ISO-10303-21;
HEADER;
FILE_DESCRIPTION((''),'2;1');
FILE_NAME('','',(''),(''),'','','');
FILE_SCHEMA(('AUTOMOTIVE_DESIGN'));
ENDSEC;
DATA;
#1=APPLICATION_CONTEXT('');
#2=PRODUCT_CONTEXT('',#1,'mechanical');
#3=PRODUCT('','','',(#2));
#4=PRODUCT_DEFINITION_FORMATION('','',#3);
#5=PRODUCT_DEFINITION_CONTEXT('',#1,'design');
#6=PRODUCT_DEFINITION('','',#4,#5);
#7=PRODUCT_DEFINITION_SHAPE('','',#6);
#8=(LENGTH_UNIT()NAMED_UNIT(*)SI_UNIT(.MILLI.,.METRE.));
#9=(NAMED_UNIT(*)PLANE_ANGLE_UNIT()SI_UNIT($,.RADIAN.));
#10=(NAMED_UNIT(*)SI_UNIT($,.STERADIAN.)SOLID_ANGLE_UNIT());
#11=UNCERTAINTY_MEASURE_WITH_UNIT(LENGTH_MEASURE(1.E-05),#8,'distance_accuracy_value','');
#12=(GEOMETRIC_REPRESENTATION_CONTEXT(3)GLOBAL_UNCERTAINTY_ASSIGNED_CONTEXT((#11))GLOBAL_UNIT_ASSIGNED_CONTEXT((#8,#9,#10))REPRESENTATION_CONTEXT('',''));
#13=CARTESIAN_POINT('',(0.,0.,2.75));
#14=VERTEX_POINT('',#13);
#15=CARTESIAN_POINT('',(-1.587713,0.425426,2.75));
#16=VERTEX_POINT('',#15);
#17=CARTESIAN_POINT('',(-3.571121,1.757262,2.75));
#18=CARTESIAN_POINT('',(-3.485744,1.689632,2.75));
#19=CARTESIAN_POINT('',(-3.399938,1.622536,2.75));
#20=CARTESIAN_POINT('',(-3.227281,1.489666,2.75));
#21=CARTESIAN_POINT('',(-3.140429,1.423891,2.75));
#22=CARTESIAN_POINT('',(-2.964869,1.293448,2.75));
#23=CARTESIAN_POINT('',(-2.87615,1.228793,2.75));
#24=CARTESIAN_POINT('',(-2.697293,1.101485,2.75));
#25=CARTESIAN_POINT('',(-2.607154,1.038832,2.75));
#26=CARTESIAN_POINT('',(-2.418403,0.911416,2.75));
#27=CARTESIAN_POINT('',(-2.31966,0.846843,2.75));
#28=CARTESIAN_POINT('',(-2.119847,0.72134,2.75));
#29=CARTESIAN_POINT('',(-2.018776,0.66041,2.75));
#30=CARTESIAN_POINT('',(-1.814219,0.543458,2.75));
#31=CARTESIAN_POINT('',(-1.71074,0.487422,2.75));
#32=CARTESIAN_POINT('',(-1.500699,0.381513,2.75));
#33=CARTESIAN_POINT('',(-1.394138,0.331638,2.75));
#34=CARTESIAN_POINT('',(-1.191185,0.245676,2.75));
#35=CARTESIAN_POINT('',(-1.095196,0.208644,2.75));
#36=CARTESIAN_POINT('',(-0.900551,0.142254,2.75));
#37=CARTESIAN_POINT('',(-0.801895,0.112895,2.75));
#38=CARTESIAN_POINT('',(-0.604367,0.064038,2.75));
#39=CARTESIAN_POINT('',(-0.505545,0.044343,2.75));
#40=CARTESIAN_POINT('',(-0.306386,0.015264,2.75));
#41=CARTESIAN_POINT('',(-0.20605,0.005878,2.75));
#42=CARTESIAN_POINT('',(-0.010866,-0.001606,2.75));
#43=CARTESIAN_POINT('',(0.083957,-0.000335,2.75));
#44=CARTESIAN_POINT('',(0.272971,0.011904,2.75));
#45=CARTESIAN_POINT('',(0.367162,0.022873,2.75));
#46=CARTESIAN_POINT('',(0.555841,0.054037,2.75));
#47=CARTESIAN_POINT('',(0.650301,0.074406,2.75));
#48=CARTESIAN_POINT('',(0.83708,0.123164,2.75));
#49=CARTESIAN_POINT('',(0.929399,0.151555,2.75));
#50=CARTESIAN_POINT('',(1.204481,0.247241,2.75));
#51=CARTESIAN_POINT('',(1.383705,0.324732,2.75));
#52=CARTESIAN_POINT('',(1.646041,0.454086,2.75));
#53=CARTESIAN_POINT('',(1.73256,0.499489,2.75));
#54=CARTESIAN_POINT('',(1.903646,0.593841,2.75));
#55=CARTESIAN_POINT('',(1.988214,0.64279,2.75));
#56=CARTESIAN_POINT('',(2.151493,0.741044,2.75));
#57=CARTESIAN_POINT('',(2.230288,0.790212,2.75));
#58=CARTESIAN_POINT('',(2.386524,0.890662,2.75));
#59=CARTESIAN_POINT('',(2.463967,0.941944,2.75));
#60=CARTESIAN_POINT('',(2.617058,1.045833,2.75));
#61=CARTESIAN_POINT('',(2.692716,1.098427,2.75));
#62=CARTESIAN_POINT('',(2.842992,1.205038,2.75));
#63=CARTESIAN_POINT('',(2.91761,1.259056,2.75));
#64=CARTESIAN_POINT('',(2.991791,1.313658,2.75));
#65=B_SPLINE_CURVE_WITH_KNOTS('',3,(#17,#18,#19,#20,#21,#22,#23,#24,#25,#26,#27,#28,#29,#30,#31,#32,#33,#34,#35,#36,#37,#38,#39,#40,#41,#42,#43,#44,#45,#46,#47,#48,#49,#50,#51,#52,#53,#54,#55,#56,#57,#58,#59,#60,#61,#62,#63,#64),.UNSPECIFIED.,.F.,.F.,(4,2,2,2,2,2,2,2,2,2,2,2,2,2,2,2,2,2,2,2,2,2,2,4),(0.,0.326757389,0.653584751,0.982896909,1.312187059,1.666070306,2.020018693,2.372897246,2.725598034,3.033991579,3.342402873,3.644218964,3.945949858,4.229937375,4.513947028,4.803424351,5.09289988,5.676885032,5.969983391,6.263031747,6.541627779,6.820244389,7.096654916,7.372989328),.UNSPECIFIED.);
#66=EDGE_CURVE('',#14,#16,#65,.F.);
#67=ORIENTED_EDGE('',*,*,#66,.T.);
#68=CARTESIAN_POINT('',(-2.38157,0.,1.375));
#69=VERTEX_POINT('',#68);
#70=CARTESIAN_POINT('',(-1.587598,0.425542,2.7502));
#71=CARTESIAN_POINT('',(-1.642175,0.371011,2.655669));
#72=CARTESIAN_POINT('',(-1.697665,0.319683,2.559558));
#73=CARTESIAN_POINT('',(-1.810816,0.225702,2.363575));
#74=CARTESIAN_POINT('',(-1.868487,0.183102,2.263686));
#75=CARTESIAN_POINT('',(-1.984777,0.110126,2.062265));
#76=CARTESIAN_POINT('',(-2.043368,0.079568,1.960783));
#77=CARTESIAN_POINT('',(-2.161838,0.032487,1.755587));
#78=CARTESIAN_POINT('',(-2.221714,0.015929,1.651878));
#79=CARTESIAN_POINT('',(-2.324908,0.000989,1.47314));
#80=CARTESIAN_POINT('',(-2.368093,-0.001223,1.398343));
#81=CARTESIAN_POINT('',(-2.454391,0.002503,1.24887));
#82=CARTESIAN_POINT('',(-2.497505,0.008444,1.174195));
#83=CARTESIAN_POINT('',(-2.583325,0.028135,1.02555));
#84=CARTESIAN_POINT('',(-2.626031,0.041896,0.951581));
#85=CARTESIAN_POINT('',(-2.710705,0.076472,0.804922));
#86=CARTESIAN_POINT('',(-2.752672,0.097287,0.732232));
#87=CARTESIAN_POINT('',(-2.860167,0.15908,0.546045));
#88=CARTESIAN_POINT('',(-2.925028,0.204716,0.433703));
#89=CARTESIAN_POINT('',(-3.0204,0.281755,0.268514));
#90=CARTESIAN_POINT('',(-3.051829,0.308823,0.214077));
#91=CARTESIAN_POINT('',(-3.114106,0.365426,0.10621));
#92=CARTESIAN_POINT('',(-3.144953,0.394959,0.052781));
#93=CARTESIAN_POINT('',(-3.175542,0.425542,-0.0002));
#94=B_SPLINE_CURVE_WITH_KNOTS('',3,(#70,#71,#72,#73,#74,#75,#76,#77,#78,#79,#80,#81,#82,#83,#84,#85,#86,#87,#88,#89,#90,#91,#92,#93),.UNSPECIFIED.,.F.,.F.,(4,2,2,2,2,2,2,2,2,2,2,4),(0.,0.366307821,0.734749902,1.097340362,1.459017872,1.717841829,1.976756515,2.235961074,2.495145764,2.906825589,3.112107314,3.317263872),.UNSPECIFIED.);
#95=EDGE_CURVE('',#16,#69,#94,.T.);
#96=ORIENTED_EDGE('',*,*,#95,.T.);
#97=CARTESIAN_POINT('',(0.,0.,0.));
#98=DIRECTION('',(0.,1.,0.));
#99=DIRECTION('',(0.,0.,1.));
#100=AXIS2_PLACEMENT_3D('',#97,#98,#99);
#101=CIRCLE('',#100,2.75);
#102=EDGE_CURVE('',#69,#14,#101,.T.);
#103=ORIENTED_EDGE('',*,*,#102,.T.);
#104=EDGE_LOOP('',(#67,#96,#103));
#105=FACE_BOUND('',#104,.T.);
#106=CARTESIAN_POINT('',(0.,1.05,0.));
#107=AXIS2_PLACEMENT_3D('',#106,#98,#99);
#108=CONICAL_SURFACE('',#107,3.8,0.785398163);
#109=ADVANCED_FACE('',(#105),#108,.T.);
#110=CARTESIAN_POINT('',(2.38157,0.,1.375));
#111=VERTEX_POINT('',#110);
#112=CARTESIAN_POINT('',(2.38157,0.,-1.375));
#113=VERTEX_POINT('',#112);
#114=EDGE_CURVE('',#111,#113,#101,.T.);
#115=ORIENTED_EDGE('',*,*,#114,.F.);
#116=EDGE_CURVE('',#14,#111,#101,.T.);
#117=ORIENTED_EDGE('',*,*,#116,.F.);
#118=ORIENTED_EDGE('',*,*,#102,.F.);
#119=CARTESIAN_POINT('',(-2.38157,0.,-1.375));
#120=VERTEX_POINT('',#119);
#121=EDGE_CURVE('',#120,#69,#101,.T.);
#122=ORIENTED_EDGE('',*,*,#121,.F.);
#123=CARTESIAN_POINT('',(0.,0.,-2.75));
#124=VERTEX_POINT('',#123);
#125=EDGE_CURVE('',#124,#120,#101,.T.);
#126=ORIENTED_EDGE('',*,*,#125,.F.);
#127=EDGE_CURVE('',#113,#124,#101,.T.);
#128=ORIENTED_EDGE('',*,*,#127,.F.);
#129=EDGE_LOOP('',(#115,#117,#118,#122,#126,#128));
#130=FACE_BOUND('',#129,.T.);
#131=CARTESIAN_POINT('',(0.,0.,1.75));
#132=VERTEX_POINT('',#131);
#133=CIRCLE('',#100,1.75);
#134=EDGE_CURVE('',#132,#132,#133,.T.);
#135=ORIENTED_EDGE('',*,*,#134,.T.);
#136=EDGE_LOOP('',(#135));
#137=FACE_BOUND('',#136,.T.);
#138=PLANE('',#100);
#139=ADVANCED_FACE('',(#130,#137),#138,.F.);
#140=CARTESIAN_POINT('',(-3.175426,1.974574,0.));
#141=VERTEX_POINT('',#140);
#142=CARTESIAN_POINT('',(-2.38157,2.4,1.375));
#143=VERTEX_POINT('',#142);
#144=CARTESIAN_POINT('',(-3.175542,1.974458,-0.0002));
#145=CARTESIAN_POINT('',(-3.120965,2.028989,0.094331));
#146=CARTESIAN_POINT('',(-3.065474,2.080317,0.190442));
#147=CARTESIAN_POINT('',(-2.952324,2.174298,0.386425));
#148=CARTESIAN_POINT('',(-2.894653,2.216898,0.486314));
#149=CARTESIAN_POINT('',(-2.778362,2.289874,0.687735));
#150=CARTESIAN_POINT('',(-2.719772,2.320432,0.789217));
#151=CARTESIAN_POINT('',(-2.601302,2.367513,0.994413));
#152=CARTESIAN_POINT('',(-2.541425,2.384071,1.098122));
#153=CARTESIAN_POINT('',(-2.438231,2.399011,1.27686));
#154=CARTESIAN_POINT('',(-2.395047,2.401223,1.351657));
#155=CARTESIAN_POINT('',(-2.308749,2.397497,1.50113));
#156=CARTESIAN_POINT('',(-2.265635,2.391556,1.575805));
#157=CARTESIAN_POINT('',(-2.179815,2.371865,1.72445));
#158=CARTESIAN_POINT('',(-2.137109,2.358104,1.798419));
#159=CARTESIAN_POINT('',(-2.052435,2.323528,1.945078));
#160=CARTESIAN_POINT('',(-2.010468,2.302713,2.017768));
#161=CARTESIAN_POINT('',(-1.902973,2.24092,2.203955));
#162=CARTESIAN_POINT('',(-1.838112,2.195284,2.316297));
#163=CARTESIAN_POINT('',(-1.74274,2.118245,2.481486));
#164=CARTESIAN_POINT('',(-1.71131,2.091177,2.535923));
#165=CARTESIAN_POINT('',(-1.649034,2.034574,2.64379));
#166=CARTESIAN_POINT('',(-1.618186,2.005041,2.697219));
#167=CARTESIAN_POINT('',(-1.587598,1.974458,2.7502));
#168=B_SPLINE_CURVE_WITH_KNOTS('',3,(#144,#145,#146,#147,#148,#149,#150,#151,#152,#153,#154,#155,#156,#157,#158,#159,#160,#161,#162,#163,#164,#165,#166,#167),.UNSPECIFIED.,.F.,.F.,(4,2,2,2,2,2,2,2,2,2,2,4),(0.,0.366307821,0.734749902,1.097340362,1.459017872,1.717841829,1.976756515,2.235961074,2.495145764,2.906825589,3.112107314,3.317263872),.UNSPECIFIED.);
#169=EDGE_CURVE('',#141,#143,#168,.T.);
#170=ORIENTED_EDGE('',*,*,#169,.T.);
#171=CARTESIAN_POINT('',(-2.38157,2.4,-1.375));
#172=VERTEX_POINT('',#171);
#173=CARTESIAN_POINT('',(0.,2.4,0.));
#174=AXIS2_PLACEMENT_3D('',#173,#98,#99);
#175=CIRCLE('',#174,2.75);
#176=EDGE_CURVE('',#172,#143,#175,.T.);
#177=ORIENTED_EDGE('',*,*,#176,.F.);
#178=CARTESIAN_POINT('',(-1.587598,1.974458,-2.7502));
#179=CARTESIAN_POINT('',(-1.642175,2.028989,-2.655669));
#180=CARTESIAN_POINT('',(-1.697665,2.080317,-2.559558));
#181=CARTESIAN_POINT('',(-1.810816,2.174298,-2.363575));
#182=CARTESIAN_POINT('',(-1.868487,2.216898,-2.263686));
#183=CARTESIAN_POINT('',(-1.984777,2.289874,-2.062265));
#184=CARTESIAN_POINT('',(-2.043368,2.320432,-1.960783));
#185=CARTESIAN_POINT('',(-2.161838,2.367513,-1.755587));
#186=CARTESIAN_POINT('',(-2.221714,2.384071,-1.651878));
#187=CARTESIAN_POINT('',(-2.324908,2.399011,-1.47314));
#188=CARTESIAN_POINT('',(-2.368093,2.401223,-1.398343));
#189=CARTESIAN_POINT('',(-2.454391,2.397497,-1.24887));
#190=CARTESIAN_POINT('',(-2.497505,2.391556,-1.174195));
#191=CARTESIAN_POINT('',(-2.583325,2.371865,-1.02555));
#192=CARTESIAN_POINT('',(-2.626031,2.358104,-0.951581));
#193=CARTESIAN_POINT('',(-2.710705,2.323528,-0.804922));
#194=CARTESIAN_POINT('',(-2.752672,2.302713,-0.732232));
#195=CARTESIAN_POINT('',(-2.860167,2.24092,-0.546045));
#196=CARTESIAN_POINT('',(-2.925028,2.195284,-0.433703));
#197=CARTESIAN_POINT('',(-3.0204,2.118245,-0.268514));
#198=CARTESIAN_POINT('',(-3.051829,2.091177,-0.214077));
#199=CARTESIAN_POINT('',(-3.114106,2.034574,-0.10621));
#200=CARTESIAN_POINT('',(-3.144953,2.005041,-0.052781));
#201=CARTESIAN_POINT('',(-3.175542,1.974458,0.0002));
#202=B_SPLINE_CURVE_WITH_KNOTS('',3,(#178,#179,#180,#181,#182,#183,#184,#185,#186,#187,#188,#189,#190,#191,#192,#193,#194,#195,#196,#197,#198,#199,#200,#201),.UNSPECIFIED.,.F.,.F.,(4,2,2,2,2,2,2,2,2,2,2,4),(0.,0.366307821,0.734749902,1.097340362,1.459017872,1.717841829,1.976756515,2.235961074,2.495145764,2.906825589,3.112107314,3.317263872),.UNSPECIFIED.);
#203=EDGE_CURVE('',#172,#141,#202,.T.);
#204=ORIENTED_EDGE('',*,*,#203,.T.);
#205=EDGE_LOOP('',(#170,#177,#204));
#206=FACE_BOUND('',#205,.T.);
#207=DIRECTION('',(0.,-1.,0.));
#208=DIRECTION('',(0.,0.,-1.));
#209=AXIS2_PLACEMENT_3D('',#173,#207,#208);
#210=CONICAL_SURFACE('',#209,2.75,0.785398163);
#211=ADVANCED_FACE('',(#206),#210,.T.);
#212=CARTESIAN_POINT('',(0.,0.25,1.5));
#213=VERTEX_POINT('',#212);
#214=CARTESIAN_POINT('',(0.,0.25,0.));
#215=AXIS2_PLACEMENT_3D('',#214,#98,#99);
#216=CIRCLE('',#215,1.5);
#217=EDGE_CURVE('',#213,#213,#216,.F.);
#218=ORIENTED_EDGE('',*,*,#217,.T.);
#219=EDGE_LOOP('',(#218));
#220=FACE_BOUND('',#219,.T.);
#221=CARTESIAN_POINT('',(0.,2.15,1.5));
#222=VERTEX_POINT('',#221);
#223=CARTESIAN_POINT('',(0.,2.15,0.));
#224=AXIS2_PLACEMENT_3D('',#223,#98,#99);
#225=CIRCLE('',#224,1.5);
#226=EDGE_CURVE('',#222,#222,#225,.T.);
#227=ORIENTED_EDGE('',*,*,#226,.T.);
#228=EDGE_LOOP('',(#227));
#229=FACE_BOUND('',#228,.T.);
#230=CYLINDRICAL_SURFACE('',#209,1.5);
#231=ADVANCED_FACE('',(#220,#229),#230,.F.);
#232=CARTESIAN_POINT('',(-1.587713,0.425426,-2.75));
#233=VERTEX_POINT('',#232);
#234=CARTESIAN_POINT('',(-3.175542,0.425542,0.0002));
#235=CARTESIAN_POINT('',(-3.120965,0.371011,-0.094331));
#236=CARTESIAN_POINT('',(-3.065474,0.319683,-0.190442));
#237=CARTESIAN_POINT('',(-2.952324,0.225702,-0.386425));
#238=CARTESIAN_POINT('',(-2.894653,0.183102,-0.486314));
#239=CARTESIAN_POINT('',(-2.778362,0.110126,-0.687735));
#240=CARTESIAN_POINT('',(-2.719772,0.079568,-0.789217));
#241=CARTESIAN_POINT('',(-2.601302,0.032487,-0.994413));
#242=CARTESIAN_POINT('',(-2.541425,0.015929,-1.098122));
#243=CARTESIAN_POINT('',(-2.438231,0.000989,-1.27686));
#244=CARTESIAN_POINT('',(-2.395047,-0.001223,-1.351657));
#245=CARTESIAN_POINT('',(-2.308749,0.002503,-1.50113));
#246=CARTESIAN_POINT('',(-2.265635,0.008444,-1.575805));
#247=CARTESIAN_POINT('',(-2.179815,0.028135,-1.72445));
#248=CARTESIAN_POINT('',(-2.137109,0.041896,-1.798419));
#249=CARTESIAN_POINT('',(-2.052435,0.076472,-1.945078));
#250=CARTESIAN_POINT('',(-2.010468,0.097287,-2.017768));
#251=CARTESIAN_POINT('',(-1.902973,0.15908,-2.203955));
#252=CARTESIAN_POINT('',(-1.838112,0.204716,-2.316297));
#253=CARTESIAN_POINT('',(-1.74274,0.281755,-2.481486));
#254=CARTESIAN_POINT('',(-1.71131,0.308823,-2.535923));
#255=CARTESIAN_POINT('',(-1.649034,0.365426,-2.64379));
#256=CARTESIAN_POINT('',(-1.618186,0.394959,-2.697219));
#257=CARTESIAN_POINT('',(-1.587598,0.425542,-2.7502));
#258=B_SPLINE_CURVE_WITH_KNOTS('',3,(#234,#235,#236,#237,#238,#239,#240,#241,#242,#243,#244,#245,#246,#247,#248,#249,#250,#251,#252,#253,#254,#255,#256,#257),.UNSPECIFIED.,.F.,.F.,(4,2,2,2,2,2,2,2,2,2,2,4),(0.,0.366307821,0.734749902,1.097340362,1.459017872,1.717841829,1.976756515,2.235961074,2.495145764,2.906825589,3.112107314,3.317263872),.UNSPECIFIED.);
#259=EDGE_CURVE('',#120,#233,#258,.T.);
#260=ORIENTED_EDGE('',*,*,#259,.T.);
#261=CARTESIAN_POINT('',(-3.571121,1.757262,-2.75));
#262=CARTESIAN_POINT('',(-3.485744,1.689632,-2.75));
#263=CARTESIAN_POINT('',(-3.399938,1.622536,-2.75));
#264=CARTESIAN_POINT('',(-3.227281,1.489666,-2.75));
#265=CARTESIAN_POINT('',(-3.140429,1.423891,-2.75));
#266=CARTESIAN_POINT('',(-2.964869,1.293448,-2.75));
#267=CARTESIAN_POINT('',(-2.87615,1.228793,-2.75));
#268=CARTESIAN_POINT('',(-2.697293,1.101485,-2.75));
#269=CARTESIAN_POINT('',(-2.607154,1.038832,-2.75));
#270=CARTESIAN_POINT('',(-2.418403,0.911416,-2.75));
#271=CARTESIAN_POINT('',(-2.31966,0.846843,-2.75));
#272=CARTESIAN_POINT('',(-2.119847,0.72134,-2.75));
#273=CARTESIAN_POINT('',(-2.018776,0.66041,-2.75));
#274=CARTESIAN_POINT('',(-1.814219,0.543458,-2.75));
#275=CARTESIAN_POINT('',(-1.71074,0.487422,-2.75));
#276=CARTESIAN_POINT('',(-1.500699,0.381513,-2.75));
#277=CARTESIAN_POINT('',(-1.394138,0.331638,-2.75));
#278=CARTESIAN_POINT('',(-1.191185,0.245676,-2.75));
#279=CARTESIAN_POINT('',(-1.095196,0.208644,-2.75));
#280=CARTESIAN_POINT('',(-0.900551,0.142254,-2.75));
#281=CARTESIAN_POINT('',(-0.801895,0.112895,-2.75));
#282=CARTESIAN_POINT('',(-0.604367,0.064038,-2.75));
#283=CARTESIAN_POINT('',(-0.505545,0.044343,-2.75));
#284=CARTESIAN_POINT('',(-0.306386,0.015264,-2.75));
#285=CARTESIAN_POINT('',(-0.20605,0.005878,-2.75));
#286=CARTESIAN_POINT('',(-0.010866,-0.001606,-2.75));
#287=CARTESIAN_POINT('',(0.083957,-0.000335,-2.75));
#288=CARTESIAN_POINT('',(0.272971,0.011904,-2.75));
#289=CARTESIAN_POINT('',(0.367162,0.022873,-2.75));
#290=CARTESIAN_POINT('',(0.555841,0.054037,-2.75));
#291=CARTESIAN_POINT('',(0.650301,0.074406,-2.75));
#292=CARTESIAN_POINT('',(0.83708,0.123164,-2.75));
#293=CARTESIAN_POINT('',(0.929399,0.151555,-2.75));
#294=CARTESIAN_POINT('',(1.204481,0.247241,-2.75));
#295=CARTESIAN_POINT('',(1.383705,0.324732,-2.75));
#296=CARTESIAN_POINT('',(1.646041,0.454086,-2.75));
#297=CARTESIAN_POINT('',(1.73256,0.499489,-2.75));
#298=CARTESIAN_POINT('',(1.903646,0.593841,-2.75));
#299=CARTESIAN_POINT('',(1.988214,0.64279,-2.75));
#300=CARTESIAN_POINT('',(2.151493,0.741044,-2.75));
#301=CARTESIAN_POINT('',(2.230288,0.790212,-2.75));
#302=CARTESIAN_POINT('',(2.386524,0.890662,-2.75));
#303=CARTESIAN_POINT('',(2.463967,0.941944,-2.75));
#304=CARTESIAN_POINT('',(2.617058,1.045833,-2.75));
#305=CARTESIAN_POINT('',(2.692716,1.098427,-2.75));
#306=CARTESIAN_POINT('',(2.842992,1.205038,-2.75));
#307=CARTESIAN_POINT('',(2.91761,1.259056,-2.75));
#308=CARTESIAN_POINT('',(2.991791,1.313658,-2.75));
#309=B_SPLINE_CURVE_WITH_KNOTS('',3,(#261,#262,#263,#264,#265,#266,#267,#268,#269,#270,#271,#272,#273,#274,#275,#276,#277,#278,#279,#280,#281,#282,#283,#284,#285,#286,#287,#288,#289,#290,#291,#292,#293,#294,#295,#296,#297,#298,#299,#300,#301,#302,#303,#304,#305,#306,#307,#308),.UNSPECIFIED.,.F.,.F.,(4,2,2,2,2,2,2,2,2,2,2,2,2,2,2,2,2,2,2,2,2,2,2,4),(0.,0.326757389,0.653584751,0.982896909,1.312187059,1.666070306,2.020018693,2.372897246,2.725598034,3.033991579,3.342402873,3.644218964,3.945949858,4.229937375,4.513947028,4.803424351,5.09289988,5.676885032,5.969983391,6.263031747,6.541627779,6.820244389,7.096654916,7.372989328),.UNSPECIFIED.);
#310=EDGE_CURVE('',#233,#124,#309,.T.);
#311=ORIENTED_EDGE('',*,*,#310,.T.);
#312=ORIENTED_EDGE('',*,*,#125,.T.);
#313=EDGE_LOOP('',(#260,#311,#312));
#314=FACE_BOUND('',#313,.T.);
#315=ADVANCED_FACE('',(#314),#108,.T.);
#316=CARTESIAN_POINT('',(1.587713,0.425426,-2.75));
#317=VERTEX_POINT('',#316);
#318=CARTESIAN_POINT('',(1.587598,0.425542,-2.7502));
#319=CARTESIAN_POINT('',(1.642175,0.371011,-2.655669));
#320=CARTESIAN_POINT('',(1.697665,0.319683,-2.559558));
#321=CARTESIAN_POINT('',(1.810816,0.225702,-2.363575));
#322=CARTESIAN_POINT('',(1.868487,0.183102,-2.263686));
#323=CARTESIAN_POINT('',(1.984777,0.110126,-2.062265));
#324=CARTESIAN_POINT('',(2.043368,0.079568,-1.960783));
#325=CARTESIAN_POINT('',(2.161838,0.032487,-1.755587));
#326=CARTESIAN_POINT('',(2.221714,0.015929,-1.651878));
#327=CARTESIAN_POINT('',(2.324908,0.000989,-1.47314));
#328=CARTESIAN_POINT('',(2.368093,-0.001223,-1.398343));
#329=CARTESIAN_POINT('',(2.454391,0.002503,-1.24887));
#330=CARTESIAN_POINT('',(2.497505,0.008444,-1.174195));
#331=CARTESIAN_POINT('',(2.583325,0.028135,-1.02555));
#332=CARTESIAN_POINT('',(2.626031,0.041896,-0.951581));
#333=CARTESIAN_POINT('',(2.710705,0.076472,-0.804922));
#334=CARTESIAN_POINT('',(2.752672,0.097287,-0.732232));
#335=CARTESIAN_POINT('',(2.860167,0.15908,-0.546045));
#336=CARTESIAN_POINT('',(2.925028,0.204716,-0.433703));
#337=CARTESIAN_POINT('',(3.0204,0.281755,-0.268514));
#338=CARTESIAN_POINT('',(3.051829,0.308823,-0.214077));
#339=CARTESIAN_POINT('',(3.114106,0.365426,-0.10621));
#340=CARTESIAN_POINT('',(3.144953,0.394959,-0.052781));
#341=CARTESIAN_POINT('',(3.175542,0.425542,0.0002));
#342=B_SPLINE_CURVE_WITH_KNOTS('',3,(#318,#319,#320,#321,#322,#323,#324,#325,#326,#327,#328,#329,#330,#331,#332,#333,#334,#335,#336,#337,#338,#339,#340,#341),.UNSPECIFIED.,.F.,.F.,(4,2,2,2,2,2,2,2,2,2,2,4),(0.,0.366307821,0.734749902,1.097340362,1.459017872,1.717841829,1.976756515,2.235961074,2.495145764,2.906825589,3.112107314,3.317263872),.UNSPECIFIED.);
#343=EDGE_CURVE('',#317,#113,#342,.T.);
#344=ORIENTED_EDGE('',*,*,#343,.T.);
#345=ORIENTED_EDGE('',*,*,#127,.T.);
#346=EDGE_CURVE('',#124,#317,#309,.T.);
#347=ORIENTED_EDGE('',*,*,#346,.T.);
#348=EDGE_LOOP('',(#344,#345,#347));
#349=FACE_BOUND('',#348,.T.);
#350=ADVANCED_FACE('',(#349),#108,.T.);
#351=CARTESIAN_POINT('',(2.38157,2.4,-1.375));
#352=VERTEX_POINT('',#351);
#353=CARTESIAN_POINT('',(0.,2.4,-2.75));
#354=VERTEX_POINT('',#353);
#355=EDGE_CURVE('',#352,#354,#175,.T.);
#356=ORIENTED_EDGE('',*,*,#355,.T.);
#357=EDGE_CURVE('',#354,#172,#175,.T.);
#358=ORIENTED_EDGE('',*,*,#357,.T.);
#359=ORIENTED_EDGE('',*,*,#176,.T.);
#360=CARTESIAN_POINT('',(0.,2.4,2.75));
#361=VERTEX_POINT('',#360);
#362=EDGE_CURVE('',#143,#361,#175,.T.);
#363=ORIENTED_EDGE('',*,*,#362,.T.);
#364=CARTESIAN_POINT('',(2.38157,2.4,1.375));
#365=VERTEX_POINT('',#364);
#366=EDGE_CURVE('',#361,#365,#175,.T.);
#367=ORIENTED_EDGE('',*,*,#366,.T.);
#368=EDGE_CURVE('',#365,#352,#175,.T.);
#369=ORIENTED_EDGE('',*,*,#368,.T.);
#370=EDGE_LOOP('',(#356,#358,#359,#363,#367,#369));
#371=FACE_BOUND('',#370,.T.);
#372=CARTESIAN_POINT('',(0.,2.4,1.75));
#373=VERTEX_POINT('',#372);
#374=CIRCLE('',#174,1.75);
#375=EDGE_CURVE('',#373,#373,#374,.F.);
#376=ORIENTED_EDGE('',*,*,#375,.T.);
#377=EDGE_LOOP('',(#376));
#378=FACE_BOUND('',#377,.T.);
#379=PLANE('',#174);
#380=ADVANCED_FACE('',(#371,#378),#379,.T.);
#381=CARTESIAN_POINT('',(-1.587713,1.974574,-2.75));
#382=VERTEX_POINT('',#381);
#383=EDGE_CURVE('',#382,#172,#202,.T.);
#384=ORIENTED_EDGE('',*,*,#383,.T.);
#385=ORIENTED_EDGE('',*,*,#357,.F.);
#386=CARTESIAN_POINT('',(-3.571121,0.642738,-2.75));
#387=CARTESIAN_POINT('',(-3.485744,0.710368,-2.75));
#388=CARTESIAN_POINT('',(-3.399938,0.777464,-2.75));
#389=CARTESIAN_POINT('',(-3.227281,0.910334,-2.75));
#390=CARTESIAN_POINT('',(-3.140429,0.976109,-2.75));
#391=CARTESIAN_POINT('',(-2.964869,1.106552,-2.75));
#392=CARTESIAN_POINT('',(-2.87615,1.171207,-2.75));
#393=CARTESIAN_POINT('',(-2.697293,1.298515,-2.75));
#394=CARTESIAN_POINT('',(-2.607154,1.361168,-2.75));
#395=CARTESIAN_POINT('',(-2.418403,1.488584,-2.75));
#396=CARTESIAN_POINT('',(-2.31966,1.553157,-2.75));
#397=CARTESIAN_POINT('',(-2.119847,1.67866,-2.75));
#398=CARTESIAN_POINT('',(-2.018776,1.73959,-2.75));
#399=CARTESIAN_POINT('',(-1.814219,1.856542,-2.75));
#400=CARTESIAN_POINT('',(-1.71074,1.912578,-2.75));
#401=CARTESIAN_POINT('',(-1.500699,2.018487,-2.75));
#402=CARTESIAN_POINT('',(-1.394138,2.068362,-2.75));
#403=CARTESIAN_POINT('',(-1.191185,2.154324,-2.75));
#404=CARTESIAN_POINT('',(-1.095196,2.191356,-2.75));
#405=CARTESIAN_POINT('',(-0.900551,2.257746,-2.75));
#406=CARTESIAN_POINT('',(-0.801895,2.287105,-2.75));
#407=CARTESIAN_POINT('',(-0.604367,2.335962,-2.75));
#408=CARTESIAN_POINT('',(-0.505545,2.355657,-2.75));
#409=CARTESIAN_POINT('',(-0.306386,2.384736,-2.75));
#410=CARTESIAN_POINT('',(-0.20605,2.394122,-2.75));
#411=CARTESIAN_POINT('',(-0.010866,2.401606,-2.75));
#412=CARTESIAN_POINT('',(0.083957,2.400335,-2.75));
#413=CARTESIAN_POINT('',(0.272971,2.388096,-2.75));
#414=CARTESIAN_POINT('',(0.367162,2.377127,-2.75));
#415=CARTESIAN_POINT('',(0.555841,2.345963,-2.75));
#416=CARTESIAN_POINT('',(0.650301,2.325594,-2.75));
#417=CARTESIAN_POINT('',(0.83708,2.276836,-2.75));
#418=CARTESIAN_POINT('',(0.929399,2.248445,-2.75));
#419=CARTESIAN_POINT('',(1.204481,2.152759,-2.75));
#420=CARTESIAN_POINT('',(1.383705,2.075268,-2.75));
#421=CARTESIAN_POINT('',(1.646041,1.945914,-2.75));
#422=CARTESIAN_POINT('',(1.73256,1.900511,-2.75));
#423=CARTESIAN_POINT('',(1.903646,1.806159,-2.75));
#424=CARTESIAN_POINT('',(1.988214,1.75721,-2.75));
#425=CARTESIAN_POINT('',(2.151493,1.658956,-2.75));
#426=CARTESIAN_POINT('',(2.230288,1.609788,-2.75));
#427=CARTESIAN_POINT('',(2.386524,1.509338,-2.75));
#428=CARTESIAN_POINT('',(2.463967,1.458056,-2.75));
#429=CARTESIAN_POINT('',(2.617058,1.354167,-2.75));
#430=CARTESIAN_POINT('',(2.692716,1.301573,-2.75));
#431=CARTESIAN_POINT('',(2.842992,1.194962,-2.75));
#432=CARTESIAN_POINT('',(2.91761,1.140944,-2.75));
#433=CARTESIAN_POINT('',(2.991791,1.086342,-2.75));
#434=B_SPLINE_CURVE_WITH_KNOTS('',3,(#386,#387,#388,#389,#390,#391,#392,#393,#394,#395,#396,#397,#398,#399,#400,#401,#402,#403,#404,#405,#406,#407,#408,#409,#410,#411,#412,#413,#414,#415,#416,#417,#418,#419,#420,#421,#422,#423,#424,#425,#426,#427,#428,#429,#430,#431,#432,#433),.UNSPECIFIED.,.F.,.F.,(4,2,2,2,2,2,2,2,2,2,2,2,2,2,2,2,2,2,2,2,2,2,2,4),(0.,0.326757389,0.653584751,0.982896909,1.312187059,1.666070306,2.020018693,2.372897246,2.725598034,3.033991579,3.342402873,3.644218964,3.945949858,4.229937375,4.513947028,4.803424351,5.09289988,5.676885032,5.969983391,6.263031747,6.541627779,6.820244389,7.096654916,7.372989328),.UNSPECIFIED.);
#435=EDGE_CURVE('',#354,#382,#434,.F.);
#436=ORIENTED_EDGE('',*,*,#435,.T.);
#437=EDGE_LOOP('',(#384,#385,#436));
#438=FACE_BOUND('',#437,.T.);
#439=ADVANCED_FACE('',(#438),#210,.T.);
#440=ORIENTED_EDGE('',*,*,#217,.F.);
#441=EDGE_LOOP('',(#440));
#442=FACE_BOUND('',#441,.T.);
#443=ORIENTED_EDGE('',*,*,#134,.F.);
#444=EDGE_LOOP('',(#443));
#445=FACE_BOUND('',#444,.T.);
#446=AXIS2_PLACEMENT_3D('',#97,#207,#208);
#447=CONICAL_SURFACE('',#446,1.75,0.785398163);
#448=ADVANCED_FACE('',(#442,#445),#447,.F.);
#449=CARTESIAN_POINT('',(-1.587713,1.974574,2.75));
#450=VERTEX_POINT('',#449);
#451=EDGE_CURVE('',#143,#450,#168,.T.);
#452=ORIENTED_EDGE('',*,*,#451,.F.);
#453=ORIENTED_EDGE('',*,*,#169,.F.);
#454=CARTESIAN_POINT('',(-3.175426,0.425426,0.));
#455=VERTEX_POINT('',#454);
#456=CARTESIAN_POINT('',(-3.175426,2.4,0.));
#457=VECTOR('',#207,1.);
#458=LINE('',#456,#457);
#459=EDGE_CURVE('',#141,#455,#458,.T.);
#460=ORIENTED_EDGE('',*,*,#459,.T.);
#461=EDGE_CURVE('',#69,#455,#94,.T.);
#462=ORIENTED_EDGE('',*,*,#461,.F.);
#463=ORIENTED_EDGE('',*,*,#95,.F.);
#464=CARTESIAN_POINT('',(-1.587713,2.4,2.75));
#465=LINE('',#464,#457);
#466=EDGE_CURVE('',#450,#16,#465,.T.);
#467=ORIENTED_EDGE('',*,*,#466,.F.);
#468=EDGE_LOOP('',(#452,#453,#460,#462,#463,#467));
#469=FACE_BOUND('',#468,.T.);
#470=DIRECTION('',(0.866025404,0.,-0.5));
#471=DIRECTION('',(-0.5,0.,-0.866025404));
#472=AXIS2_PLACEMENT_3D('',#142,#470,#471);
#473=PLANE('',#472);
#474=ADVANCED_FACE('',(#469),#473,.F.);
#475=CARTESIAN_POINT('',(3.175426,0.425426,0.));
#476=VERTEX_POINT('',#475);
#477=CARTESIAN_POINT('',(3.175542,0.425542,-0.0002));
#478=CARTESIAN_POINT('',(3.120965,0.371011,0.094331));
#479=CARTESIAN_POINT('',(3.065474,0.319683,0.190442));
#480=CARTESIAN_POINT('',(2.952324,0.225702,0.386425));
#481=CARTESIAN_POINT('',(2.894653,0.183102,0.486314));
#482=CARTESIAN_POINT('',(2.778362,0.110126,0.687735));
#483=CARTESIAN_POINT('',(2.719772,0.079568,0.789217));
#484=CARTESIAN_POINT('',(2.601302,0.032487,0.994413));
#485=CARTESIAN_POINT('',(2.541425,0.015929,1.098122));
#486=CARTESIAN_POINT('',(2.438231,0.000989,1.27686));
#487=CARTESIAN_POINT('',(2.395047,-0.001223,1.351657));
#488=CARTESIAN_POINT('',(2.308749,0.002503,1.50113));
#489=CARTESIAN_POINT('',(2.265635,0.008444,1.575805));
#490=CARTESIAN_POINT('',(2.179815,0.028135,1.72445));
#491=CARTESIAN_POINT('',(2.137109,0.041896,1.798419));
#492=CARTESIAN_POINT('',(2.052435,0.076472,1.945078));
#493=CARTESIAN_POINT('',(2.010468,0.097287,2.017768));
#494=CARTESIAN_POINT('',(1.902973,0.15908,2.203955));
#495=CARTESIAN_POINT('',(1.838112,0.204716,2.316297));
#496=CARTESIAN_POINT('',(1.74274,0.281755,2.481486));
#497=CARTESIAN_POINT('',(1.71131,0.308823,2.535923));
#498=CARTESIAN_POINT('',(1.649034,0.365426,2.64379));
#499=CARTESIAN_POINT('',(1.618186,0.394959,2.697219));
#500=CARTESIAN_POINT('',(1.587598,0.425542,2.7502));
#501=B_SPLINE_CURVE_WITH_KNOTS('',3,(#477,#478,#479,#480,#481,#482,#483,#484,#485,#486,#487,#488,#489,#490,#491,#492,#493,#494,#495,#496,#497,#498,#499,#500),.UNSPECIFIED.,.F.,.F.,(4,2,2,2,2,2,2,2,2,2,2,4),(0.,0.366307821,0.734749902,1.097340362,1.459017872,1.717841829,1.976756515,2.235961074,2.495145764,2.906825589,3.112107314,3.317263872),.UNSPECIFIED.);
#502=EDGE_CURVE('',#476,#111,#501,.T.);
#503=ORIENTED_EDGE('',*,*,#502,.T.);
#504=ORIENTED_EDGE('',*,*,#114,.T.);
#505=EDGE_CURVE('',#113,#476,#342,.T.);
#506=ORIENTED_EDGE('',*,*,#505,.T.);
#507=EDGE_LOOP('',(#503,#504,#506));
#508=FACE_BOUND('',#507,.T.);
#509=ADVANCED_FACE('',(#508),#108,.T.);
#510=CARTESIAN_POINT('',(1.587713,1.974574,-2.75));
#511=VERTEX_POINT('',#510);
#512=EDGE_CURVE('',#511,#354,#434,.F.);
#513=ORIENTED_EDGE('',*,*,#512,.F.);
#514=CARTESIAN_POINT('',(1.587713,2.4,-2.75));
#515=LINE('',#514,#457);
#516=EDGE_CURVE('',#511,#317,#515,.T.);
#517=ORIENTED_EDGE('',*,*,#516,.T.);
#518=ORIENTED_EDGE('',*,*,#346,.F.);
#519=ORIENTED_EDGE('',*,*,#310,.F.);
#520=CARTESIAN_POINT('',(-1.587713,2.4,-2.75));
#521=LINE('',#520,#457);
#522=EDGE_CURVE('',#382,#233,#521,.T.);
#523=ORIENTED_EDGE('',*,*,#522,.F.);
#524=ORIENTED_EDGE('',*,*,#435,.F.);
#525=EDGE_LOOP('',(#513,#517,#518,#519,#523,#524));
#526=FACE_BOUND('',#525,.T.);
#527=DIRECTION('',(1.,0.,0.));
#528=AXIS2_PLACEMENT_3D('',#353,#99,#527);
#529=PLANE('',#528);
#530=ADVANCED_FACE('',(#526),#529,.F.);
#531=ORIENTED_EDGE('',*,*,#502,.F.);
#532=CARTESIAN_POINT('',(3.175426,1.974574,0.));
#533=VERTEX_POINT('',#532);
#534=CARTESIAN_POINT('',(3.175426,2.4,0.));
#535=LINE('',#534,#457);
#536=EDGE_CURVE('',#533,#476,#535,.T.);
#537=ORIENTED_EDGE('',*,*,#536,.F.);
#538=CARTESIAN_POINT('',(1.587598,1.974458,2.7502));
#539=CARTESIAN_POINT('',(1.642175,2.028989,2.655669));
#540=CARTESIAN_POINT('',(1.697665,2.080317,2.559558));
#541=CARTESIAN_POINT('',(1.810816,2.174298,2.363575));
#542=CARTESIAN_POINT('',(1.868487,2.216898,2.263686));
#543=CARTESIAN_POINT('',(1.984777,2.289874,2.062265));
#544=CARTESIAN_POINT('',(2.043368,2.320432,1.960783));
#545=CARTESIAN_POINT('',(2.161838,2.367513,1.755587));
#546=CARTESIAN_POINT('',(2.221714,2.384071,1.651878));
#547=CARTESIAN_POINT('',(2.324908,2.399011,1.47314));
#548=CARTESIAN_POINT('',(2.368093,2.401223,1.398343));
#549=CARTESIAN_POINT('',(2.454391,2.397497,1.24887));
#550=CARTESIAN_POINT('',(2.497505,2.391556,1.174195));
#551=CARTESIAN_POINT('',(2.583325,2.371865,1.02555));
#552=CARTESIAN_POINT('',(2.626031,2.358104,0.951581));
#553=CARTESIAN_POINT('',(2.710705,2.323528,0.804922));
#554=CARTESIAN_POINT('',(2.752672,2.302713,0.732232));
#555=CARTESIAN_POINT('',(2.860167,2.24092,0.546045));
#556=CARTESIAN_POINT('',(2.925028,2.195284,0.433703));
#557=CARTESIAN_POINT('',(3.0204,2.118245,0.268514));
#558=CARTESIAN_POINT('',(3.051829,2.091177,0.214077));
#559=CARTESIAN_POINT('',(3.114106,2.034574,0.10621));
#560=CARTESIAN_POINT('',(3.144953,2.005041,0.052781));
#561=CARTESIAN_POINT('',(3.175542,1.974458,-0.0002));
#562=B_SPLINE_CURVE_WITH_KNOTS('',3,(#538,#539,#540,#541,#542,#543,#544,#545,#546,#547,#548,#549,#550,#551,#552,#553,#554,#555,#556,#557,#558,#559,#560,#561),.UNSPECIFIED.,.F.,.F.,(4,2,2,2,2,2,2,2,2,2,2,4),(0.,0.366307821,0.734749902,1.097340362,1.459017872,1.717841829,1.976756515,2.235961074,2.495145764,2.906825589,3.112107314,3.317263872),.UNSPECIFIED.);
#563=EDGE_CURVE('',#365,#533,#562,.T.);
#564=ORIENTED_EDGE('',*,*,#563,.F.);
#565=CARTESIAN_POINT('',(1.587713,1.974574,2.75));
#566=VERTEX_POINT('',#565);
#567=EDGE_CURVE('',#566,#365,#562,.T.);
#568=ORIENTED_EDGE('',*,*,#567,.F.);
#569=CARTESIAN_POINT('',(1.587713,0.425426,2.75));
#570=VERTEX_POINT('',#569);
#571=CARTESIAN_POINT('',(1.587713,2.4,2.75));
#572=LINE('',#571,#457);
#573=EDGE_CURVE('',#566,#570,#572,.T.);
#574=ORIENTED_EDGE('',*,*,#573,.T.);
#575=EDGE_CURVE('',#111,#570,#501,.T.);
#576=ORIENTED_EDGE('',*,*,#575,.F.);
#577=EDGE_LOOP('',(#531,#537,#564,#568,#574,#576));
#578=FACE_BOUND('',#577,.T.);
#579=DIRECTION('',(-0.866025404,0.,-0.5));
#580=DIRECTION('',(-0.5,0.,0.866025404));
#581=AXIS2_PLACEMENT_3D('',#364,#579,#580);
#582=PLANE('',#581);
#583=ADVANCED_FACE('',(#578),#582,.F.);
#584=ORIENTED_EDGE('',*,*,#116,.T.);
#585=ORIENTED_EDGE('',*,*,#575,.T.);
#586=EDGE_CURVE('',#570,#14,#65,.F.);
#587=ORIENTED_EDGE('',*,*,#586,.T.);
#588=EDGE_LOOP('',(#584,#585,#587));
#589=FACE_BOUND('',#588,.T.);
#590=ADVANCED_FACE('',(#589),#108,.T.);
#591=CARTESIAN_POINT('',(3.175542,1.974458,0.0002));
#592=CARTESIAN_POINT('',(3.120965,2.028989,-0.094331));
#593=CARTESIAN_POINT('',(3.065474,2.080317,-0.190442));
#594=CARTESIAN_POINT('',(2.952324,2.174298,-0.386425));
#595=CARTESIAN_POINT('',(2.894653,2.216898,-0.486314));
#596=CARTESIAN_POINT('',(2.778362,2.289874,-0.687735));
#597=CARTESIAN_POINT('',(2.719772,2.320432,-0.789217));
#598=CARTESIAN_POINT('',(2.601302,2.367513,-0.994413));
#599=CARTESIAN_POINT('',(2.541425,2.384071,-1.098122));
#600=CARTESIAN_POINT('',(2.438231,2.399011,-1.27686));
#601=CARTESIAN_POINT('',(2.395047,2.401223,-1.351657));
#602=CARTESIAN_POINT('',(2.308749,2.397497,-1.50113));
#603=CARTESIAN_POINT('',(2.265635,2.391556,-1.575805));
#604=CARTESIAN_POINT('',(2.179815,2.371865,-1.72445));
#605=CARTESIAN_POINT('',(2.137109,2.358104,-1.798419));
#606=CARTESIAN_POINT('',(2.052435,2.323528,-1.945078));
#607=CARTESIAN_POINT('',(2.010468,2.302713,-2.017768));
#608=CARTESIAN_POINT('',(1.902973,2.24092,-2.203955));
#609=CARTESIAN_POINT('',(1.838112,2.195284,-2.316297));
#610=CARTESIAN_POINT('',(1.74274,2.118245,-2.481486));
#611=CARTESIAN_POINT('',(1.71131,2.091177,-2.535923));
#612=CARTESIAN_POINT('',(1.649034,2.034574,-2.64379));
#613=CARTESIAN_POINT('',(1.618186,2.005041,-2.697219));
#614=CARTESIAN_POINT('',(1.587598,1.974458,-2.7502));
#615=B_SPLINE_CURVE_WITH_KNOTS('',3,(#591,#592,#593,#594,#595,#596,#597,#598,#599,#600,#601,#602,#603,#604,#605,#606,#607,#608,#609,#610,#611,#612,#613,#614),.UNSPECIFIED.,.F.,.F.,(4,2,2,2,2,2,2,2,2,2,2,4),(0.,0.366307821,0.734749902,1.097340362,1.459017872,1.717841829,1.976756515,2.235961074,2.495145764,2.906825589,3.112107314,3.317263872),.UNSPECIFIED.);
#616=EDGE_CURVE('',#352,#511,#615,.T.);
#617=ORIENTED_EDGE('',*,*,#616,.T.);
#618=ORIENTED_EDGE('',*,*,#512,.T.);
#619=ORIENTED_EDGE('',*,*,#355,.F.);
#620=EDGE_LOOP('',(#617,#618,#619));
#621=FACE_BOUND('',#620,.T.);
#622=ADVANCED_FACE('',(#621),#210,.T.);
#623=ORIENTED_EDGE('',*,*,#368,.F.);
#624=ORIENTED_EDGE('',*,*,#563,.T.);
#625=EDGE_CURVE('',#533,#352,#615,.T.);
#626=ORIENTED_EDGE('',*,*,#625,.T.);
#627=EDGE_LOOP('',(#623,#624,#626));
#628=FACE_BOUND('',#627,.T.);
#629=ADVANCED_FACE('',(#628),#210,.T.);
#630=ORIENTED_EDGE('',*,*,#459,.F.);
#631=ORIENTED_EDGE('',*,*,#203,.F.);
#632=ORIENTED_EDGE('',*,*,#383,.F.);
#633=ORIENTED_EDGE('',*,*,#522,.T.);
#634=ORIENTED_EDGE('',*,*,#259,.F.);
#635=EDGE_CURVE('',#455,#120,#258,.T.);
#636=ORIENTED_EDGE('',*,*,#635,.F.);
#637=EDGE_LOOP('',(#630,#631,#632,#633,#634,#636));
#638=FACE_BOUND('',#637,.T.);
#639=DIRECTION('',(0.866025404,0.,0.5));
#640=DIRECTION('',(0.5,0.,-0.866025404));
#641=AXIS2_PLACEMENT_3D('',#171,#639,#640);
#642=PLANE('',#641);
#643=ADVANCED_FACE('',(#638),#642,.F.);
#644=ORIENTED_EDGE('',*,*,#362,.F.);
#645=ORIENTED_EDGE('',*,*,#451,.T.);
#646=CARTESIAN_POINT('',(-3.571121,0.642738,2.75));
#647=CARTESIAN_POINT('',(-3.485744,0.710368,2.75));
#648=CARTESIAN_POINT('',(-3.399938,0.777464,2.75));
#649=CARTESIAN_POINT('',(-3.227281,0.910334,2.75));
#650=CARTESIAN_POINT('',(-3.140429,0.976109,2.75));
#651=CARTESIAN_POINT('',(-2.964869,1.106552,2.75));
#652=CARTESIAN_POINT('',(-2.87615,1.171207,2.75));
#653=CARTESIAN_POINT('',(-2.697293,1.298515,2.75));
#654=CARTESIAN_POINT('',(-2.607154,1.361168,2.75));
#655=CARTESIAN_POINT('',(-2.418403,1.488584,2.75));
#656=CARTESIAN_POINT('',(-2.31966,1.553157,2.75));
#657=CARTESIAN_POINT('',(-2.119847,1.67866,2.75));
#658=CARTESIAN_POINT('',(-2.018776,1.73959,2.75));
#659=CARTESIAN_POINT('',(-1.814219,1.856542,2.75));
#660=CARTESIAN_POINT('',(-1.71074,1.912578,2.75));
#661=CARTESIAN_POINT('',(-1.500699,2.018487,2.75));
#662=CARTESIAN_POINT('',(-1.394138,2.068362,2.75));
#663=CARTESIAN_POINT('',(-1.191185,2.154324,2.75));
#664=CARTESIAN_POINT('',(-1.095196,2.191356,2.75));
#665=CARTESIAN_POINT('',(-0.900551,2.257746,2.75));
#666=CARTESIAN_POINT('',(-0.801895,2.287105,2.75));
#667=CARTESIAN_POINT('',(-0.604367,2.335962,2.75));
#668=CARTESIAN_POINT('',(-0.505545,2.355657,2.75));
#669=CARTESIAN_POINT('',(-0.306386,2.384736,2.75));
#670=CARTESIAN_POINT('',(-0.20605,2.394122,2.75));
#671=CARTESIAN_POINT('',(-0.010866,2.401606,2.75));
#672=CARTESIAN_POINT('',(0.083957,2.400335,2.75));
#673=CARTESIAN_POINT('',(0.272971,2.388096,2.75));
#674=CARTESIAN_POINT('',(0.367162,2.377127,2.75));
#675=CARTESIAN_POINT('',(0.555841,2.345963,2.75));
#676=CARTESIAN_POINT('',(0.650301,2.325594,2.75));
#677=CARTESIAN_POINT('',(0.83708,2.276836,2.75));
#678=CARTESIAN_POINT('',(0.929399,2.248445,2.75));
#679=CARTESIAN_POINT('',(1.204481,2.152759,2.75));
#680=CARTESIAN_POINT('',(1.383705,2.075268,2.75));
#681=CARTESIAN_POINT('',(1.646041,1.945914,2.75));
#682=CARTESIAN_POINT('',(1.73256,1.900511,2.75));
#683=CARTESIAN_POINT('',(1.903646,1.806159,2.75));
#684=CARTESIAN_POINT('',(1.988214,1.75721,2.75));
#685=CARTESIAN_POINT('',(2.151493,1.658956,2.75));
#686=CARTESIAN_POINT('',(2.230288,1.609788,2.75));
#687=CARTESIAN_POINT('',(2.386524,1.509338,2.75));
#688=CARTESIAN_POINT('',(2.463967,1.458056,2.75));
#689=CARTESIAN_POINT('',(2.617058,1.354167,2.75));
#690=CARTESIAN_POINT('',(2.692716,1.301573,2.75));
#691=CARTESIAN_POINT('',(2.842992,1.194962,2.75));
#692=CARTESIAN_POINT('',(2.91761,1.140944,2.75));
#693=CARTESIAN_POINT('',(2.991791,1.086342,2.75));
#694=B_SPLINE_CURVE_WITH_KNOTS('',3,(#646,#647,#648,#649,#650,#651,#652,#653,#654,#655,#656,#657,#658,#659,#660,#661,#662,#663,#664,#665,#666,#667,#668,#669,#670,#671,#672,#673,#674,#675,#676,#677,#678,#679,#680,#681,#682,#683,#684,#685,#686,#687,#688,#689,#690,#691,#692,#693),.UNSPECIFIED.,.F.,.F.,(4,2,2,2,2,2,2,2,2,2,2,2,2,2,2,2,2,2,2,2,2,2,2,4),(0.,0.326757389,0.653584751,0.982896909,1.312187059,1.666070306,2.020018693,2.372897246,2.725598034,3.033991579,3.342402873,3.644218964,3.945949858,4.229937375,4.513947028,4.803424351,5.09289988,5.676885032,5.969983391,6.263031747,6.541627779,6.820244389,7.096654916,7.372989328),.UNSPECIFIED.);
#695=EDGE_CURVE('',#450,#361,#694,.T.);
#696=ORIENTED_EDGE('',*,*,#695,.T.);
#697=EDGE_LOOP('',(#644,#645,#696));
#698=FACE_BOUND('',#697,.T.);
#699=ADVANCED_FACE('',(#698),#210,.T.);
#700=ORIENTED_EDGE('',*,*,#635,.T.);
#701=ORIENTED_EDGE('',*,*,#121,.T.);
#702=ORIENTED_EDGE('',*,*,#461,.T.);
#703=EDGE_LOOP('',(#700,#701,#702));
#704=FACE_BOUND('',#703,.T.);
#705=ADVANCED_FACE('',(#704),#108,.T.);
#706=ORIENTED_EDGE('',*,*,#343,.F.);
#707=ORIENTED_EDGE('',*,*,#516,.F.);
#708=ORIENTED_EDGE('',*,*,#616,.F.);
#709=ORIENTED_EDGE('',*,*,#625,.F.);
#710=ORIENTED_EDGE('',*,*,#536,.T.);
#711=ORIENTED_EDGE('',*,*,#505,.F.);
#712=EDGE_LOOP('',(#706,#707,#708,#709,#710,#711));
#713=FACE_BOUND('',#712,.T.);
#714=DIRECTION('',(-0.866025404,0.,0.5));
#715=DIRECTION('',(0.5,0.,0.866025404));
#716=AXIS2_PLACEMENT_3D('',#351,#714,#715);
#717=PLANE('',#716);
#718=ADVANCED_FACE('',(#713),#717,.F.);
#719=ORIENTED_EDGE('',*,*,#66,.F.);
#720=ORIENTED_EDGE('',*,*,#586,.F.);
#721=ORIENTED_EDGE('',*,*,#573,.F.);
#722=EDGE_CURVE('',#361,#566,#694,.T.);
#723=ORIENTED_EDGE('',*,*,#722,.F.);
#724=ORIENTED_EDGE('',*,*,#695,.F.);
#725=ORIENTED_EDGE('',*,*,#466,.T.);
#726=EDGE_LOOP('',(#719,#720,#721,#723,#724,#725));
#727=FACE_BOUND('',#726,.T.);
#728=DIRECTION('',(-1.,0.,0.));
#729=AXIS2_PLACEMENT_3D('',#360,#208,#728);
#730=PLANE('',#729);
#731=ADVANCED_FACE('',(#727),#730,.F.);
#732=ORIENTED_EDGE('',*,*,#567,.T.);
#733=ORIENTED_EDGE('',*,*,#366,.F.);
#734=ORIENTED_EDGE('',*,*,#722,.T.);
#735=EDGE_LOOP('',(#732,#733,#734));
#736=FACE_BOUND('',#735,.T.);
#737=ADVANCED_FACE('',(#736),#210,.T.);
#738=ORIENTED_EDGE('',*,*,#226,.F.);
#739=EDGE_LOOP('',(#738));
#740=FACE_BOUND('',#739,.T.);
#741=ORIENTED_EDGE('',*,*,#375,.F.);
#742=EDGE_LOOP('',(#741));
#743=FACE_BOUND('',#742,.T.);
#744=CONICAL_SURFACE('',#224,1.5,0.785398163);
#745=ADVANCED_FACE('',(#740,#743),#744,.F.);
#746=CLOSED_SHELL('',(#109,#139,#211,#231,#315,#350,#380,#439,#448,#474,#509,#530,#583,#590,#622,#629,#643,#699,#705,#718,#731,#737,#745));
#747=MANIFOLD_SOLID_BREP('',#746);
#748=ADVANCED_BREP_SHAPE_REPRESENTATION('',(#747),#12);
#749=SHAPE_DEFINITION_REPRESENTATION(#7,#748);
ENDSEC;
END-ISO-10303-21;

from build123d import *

# Parameters (mm, degrees)
SKETCH1_R           = 1.5
BOSS_EXTRUDE1_DEPTH = 2.4
CHAMFER2_SIZE       = 0.25


with BuildPart() as part:
    # Sketch1 → Boss-Extrude1 (new body)
    with BuildSketch(Plane(origin=(0, 0, 0), x_dir=(1, 0, 0), z_dir=(0, 1, 0))):
        Polygon((-1.58771324, -2.75), (1.58771324, -2.75), (3.175426481, 0), (1.58771324, 2.75), (-1.58771324, 2.75), (-3.175426481, 0), align=None)
        with Locations(Location((0, 0, 0), (0, 0, 270))):
            Circle(SKETCH1_R, mode=Mode.SUBTRACT)
    extrude(amount=BOSS_EXTRUDE1_DEPTH)

    # Sketch2 → Cut-Revolve1 (revolve, cut)
    with BuildSketch(Plane(origin=(0, 0, 0), x_dir=(0, 0, -1), z_dir=(1, 0, 0))):
        Polygon((2.75, 2.4), (3.8, 3.45), (3.8, 1.35), align=None)
        Polygon((3.8, 1.05), (2.75, 0), (3.8, -1.05), align=None)
    revolve(axis=Axis((0, 2.4, 0), (0, -1, 0)), mode=Mode.SUBTRACT)

    # Chamfer2
    chamfer2_edges = [part.edges().sort_by_distance(p)[0] for p in [
        (0, 0, -1.5),
        (0, 2.4, -1.5),
    ]]
    chamfer(chamfer2_edges, length=CHAMFER2_SIZE)


solid = part.part
